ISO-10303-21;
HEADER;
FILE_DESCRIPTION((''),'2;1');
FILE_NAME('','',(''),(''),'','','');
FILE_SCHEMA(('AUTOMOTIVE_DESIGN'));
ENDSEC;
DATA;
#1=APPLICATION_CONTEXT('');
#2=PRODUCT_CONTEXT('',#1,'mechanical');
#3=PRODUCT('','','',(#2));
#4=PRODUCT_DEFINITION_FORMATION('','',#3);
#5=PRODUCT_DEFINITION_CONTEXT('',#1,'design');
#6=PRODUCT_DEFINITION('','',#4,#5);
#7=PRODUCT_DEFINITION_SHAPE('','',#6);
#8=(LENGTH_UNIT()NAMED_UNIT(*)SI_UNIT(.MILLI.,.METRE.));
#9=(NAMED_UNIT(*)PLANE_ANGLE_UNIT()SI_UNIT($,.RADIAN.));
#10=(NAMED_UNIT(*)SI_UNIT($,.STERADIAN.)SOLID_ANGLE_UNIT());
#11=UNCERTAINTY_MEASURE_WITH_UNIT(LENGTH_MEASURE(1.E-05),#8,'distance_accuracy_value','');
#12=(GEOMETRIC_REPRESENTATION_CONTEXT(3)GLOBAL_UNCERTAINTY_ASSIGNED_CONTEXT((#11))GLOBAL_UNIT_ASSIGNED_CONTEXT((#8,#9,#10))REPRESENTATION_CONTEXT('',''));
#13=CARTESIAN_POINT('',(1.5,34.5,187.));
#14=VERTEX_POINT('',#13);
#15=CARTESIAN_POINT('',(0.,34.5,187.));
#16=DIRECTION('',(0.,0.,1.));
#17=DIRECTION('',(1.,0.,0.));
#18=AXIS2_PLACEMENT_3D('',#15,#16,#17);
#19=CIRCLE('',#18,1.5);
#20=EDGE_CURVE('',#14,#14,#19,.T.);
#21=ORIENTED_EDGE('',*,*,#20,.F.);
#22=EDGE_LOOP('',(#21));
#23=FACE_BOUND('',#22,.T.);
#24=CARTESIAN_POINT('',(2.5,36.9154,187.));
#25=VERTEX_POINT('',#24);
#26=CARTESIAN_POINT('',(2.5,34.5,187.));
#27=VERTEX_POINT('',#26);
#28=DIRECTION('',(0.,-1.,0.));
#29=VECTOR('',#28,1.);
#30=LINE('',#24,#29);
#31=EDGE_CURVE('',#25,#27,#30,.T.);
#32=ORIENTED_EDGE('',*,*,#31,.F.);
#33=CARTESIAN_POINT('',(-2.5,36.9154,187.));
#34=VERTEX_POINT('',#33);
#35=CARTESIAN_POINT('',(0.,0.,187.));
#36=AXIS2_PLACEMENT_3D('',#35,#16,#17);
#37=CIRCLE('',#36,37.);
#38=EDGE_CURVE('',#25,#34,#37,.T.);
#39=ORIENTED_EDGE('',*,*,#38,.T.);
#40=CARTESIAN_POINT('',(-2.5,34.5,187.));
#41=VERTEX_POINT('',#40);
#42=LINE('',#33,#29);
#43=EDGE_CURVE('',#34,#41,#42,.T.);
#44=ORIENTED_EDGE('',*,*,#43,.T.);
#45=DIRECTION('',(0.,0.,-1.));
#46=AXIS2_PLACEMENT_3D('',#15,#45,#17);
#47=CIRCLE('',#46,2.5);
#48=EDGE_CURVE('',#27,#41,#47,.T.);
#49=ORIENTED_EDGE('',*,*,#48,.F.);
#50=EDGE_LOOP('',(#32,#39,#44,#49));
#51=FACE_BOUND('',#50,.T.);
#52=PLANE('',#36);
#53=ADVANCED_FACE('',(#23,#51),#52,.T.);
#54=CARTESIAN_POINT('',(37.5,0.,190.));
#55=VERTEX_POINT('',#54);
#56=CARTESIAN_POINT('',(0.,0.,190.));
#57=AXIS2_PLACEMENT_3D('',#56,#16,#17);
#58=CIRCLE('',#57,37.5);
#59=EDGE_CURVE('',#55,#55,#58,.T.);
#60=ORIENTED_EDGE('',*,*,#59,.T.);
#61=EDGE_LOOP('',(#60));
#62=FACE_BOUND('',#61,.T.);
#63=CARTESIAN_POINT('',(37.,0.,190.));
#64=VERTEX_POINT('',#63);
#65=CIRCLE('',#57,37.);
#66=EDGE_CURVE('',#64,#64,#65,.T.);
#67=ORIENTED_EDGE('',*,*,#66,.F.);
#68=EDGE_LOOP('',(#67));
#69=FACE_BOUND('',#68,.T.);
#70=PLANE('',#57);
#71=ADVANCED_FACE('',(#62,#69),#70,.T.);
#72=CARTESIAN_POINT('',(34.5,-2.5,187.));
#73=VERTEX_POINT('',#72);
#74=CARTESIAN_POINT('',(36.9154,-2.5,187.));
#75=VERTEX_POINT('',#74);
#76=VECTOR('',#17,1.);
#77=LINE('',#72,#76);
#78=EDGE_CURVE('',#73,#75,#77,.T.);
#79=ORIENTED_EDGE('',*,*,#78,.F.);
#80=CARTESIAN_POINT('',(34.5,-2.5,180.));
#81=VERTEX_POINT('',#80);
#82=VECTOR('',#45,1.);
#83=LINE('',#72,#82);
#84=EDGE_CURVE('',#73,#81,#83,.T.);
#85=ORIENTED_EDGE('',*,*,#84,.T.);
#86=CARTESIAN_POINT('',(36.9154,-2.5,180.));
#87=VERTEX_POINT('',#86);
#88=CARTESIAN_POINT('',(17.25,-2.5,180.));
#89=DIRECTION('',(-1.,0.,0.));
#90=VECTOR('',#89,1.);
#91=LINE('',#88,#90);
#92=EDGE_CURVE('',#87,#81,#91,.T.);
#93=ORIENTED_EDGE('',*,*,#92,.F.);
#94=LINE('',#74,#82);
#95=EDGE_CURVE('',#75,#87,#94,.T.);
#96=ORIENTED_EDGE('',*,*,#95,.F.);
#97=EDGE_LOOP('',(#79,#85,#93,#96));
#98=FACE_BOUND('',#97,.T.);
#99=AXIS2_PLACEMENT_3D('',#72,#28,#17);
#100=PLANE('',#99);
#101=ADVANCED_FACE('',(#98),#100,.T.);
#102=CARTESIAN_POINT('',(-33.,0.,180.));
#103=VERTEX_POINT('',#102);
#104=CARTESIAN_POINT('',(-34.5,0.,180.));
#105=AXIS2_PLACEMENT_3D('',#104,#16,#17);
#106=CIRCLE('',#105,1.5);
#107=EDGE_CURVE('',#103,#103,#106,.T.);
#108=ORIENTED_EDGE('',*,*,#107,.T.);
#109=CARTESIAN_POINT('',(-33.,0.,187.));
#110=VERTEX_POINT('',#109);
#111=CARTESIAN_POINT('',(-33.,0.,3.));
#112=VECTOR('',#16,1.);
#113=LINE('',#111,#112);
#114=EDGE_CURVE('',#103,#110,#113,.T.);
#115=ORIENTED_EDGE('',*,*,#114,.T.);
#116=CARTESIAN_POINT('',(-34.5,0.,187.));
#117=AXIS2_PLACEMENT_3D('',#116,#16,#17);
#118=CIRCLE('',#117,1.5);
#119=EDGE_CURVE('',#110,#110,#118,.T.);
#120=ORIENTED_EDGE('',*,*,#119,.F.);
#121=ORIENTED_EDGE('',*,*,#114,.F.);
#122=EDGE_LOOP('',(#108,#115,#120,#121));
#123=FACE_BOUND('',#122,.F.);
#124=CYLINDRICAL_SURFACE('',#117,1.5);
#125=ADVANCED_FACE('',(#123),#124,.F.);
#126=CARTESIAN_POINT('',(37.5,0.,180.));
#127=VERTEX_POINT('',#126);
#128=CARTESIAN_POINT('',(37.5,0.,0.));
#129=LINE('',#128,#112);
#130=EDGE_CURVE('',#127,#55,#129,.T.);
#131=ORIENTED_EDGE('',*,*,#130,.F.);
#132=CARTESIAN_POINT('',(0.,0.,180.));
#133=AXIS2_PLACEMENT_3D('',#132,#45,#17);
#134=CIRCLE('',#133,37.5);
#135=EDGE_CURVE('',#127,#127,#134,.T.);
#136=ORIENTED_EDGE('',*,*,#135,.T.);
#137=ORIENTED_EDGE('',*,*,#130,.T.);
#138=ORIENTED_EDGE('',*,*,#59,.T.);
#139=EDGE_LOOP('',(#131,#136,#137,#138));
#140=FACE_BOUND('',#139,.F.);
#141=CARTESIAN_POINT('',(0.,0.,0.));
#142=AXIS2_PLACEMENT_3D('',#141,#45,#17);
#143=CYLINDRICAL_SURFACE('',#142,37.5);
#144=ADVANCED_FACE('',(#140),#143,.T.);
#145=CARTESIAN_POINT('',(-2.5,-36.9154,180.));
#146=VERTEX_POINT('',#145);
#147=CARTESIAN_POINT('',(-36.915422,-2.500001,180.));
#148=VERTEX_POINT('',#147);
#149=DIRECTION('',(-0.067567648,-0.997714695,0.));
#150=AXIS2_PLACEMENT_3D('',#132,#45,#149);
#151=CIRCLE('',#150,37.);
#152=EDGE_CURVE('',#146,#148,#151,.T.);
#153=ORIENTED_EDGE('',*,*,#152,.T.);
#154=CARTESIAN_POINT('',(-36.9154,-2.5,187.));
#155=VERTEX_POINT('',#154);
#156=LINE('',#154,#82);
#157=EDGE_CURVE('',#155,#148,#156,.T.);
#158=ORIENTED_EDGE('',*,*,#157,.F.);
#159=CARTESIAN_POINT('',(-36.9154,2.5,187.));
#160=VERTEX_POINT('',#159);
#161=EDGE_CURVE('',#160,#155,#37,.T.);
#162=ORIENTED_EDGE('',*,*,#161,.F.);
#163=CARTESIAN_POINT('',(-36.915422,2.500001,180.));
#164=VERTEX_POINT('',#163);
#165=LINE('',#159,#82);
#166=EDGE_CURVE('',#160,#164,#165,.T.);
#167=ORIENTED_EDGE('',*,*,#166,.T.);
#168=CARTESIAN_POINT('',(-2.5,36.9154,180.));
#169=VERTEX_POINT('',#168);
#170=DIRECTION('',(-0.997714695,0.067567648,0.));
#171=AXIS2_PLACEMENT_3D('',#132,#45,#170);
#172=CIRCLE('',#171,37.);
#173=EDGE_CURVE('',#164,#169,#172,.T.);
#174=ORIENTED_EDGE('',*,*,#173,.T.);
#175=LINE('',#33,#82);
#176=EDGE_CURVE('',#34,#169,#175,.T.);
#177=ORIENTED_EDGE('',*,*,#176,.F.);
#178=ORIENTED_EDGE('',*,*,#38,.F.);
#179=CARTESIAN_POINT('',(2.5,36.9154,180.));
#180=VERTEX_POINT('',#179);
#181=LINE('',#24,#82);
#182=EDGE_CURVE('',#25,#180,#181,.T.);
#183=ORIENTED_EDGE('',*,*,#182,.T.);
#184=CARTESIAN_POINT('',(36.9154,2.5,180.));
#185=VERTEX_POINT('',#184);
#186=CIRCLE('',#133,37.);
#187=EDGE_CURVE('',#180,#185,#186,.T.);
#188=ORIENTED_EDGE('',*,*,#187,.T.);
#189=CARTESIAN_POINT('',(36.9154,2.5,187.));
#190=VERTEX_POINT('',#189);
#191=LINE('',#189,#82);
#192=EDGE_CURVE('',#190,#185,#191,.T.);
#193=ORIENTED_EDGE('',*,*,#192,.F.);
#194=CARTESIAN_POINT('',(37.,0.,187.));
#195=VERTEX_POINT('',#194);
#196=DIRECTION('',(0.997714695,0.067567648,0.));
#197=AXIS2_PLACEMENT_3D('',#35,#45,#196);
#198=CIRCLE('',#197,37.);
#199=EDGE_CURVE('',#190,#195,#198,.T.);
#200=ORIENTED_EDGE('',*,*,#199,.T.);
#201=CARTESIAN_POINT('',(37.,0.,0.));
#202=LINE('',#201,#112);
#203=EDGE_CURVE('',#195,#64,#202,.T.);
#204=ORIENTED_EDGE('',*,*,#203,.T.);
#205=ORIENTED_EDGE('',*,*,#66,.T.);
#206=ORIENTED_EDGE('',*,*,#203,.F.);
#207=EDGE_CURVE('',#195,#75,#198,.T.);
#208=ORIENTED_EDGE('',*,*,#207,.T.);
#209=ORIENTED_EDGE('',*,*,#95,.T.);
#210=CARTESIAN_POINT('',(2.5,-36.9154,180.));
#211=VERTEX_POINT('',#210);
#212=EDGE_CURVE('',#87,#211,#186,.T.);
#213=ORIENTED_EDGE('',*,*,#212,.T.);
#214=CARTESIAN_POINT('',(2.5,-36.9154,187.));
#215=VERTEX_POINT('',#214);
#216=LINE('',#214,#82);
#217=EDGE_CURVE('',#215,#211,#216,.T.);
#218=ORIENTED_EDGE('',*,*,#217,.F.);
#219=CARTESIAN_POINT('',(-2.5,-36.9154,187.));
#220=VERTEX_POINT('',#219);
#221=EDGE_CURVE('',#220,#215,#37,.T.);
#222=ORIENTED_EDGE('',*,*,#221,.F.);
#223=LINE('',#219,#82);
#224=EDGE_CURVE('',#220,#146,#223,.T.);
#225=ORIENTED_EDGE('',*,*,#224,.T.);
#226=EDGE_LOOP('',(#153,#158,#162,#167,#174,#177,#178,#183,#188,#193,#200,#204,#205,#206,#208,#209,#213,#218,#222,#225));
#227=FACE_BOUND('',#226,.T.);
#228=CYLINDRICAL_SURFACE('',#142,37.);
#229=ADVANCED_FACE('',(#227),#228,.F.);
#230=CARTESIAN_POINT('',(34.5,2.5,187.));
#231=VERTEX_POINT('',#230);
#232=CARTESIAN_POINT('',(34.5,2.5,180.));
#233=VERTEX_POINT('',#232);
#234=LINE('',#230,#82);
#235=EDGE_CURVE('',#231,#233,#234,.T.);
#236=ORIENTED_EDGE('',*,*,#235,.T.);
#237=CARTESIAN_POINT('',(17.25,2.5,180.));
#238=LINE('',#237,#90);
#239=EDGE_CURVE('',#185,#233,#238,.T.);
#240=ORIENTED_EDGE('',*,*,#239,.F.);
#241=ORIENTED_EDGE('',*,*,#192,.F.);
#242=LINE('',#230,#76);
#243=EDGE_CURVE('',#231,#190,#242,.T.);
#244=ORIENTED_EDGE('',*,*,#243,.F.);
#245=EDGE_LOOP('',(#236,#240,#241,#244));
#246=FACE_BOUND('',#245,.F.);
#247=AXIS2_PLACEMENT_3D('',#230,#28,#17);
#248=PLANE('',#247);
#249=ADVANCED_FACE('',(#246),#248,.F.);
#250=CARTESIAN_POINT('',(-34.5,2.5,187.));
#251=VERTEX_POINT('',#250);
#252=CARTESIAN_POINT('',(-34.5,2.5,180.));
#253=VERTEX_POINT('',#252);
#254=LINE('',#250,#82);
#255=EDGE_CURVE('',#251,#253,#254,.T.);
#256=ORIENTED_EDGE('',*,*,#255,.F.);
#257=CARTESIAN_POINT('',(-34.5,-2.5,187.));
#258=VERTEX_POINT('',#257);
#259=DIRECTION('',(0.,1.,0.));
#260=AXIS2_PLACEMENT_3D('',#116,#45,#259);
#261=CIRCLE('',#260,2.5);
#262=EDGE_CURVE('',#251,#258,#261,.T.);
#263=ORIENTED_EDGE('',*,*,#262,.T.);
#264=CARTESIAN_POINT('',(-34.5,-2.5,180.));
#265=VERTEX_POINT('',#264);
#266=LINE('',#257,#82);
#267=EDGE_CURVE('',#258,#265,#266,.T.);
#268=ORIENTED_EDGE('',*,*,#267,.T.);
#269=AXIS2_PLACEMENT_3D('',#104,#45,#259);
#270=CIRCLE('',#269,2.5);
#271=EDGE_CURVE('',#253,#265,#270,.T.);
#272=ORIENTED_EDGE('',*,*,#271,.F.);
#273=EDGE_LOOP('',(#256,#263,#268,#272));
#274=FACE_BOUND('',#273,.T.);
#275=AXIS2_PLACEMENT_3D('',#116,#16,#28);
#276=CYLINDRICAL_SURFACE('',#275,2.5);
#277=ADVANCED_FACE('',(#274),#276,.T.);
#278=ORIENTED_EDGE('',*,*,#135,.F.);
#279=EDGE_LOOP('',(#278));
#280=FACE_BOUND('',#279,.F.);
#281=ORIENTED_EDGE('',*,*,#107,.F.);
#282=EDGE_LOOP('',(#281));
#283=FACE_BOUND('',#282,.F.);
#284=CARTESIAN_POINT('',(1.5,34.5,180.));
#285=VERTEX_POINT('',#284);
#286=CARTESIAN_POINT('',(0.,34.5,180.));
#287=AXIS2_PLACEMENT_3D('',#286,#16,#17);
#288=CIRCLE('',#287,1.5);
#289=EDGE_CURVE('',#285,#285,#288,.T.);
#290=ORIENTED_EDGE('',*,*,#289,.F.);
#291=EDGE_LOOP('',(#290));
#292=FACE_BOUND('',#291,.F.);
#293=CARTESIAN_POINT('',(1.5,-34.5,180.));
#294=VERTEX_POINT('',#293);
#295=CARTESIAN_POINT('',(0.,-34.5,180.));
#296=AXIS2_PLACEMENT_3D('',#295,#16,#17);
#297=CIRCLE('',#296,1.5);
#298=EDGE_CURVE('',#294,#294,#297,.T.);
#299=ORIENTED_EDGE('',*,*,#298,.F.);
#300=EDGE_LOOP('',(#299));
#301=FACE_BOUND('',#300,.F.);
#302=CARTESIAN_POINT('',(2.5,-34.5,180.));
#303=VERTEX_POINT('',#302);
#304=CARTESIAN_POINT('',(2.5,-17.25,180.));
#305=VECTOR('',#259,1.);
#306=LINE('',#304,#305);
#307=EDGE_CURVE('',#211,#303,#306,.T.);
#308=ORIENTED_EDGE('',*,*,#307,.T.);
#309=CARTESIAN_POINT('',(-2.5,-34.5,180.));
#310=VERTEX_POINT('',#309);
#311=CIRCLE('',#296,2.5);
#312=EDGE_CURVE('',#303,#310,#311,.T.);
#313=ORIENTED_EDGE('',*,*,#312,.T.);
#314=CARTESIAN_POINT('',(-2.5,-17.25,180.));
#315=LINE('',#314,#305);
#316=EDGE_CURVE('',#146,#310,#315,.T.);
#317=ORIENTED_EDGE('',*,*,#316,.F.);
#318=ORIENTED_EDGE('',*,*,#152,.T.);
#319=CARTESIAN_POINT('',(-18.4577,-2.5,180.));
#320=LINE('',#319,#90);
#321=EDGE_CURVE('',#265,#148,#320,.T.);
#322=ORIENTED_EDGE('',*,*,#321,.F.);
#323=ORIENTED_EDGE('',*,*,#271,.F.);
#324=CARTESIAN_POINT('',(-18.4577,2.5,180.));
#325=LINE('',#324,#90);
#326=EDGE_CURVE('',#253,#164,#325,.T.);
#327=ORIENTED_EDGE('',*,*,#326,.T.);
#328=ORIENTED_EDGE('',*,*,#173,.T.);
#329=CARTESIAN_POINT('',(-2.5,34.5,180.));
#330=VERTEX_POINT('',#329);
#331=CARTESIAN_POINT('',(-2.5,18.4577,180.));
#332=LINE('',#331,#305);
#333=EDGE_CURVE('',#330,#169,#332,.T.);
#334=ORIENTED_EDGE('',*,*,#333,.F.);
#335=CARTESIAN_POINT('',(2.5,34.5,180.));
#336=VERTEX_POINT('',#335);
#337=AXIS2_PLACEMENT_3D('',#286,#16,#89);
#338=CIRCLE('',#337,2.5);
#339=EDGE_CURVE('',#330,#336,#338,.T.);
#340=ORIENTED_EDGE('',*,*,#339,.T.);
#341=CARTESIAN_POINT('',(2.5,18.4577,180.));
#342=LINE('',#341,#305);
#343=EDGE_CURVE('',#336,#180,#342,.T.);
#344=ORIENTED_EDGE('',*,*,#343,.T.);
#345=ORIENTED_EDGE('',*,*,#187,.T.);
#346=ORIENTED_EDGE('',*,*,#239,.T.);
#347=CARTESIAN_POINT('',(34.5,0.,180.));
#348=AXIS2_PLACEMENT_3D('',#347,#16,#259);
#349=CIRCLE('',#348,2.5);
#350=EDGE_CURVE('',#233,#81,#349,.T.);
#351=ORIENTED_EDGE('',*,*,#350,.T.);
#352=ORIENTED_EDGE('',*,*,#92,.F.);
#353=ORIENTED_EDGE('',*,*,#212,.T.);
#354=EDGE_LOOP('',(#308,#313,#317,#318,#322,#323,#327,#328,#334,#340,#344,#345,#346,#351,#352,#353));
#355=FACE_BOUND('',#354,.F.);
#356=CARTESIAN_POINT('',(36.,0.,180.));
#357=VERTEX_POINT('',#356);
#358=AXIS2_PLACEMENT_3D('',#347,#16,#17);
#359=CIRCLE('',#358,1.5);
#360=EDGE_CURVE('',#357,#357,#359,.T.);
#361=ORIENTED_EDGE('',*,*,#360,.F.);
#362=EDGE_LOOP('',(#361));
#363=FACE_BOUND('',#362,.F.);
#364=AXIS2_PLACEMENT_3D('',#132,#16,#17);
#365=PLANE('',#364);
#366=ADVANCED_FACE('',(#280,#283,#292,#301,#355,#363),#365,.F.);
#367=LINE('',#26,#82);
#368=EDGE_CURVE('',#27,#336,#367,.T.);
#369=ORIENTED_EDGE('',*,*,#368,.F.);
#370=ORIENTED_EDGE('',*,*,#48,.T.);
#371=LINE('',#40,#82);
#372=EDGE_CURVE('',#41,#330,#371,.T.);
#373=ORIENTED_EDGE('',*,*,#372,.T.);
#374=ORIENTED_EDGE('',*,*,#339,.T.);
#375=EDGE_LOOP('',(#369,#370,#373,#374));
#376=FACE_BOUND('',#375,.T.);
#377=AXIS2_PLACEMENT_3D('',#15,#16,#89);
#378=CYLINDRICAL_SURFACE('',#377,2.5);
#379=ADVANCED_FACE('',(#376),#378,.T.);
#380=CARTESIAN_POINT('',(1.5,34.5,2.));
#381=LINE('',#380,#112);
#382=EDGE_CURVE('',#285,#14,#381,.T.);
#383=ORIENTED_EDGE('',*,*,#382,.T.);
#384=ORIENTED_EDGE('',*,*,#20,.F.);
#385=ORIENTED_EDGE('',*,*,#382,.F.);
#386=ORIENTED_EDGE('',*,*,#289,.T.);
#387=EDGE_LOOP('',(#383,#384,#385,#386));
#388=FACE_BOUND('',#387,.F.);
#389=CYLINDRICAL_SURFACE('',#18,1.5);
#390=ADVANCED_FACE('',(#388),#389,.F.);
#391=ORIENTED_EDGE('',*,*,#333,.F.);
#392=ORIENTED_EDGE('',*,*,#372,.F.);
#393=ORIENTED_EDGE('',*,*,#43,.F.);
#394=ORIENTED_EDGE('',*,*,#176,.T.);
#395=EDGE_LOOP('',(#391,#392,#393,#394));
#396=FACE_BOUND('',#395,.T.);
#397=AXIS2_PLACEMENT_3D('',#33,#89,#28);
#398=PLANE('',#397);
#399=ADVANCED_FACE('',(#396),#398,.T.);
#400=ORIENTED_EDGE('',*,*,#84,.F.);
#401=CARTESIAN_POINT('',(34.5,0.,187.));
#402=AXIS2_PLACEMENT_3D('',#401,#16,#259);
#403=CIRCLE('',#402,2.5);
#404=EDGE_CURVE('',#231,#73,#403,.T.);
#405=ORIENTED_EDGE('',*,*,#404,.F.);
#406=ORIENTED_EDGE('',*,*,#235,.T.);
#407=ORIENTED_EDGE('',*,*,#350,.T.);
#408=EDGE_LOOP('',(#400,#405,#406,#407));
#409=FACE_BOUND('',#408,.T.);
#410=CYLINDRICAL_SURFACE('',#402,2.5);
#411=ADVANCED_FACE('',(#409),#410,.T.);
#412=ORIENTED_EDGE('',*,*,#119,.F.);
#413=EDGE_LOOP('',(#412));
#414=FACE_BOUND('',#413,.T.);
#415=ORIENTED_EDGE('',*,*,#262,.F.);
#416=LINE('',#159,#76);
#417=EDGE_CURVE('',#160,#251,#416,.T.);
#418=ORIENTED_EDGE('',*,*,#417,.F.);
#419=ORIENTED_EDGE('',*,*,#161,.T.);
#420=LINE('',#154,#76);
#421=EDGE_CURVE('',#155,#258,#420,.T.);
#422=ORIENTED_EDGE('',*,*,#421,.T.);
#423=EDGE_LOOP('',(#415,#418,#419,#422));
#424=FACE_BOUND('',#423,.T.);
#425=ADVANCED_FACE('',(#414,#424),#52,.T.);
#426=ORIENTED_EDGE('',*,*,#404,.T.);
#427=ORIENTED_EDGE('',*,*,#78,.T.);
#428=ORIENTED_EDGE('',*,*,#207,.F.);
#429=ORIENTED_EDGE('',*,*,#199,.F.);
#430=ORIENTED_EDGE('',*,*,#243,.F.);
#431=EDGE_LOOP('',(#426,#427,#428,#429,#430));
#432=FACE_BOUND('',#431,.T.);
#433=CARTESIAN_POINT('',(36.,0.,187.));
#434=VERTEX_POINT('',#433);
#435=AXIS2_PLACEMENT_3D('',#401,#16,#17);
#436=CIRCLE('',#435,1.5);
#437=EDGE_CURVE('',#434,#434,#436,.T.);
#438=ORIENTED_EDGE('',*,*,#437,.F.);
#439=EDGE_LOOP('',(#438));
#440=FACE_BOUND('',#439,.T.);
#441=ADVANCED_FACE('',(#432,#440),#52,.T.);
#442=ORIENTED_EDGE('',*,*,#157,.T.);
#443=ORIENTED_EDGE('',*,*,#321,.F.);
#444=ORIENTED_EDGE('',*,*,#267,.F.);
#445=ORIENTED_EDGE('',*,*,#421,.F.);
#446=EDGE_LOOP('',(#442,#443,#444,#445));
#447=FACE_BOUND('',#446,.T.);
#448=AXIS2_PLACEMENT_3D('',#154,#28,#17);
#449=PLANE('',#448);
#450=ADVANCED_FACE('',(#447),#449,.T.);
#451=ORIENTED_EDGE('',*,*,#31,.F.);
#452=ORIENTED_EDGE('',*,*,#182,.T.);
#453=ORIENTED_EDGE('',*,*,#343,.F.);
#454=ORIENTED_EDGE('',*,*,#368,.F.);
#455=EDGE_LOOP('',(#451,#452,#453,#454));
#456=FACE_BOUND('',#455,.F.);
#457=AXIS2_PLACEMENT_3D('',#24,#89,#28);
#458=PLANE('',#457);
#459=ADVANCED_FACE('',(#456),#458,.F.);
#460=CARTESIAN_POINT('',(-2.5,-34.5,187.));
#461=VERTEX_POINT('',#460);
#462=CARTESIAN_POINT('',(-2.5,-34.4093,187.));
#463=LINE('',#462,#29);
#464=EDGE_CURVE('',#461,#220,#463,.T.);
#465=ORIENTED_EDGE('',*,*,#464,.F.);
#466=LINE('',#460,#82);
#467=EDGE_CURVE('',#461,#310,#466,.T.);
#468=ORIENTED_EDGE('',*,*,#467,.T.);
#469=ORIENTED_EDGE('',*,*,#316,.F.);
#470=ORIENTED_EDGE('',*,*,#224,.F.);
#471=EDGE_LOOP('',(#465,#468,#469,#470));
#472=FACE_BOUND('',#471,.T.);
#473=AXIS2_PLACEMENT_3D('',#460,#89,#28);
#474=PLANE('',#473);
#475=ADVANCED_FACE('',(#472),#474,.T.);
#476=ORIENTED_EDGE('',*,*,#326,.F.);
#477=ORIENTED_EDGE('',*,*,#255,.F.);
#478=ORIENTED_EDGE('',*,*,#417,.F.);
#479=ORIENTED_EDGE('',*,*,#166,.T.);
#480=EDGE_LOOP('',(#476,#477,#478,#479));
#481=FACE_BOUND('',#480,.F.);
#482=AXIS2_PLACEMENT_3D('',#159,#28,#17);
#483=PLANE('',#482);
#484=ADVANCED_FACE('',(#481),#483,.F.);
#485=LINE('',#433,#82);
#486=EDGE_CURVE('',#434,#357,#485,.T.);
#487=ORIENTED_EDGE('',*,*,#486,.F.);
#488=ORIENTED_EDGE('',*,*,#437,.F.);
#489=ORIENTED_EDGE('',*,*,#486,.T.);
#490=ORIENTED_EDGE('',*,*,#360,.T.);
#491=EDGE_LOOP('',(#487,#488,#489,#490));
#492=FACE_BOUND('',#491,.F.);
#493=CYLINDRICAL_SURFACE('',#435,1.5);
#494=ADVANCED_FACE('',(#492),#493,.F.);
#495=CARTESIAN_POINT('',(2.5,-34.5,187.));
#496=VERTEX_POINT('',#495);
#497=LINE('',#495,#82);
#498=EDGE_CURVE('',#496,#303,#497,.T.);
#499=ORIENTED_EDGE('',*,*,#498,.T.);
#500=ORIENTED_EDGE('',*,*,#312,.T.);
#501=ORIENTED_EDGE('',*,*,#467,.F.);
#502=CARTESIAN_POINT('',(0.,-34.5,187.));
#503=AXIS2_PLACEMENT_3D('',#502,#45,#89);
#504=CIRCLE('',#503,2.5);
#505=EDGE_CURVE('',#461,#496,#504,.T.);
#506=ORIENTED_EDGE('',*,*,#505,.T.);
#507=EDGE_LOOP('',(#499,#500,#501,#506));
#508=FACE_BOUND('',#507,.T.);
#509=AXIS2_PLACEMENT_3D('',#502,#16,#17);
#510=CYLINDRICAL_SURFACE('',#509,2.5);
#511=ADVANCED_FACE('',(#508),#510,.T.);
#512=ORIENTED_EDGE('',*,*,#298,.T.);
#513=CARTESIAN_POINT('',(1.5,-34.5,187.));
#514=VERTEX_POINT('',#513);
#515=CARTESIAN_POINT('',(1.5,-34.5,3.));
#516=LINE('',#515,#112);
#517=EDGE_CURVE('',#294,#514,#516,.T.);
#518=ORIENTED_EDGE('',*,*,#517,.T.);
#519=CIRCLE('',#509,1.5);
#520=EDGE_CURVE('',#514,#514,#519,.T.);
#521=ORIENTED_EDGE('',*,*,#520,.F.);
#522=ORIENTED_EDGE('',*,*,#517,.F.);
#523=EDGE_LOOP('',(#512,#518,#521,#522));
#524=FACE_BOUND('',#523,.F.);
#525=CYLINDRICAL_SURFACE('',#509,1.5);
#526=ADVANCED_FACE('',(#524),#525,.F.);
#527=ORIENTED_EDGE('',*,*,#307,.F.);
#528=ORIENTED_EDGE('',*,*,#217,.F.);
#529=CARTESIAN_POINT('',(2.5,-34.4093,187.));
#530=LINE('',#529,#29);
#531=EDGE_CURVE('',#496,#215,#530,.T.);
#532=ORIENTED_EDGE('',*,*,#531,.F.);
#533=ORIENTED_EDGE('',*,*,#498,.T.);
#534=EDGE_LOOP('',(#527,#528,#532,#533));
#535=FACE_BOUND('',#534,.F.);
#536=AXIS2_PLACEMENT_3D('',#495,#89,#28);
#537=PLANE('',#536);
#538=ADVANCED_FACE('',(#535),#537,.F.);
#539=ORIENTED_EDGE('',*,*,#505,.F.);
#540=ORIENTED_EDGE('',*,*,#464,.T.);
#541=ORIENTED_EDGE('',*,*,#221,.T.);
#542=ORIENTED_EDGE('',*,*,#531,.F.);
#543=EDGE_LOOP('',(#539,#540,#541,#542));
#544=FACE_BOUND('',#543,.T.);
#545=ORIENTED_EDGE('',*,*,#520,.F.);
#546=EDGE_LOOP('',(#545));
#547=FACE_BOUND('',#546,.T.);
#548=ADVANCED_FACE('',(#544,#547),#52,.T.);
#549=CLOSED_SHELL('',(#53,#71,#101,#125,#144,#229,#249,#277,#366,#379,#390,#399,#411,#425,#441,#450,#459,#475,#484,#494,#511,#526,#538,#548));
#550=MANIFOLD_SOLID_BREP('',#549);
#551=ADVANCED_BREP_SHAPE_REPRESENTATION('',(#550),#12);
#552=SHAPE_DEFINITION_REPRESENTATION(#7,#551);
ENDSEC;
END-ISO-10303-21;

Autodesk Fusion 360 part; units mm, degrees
sketch "Esboço2" plane through (0, 0, 0) normal (0, 0, 1) x (1, 0, 0)
  circle A0 centre (0, 0) radius 37.5
  circle A1 centre (0, 0) radius 37
  dimension "d6" = 75
  dimension "d7" = 74
extrude "Extrusão2" add sketch "Esboço2" along normal blind 190
ref_plane "Plano de trabalho9" through (0, 0, 187) normal (0, 0, 1) x (1, 0, 0)
sketch "Esboço10" plane through (0, 0, 187) normal (0, 0, 1) x (1, 0, 0)
  circle A0 centre (0, 0) radius 34.5 construction
  line L0 (0, 0) -> (-68.1762, 0) construction
  line L1 (0, 0) -> (60, 0) construction
  line L2 (0, 0) -> (0, 45) construction
  line L3 (0, 0) -> (0, -43.1659) construction
  circle A1 centre (34.5, 0) radius 1.5
  line L4 (3, -43) -> (3, -42)
  circle A2 centre (0, 34.5) radius 1.5
  circle A3 centre (-34.5, 0) radius 1.5
  circle A4 centre (0, -34.5) radius 1.5
  arc A5 (34.5, 2.5) -> (34.5, -2.5) centre (34.5, 0) ccw
  arc A6 (-2.5, 34.5) -> (2.5, 34.5) centre (0, 34.5) ccw
  arc A7 (-34.5, -2.5) -> (-34.5, 2.5) centre (-34.5, 0) ccw
  arc A8 (2.5, -34.5) -> (-2.5, -34.5) centre (0, -34.5) ccw
  circle A9 centre (0, 0) radius 37
  line L5 (-36.9154, 2.5) -> (-34.4093, 2.5)
  line L6 (-36.9154, -2.5) -> (-34.4093, -2.5)
  line L7 (34.5, 2.5) -> (36.9154, 2.5)
  line L8 (34.5, -2.5) -> (36.9154, -2.5)
  line L9 (2.5, 36.9154) -> (2.5, 34.4093)
  line L10 (-2.5, 36.9154) -> (-2.5, 34.4093)
  line L11 (-2.5, -34.4093) -> (-2.5, -36.9154)
  line L12 (2.5, -34.4093) -> (2.5, -36.9154)
  dimension "d82" = 69
  dimension "d83" = 3
  dimension "d84" = 2.5
  dimension "d85" = 2.5
  dimension "d87" = 360
  dimension "d89" = 360
  dimension "d90" = 2.5
extrude "Extrusão12" add sketch "Esboço10" against normal blind 184 contours A5 A9 L7 L8 | A6 A9 L9 L10 | A8 A9 L11 L12 | A7 A9 L5 L6
thread "Rosca3"
ref_plane "Plano de trabalho3" through (0, 0, 32) normal (0, 0, 1) x (1, 0, 0)
sketch "Esboço3" plane through (0, 0, 32) normal (0, 0, 1) x (1, 0, 0)
  line L0 (0, 0) -> (0, 37) construction
  line L1 (34.2491, 14) -> (-34.2491, 14)
  circle A0 centre (0, 0) radius 37
  line L2 (31.1288, 20) -> (-31.1288, 20)
  line L3 (32.8634, 17) -> (-32.8634, 17)
  circle A1 centre (0, 0) radius 50
  circle A2 centre (0, 0) radius 37.5
  line L4 (-8, 0) -> (8, 0)
  line L5 (8, 0) -> (8, 36.1248)
  line L6 (-8, 0) -> (-8, 36.1248)
  circle A3 centre (0, 34.5) radius 1.5
  line L7 (1.5, 32.5) -> (1.5, 0)
  arc A4 (-2.5, 34.5) -> (2.5, 34.5) centre (0, 34.5) ccw
  line L8 (-1.5, 32.5) -> (-1.5, 0)
  line L9 (27.8634, 24.3441) -> (27.8634, 11)
  line L10 (27.8634, 11) -> (35.327, 11)
  line L11 (-27.8634, 11) -> (-35.327, 11)
  line L12 (-27.8634, 24.3441) -> (-27.8634, 11)
  line L13 (-30.4631, 21) -> (30.4631, 21)
  line L14 (-34.641, 13) -> (34.641, 13)
  line L15 (0, 32) -> (8, 32)
  line L16 (0, 32) -> (-8, 32)
  dimension "d12" = 6
  dimension "d15" = 3
  dimension "d17" = 75
  dimension "d18" = 100
  dimension "d41" = 14
  dimension "d51" = 8
  dimension "d52" = 16
  dimension "d99" = 3
  dimension "d100" = 2.5
  dimension "d115" = 6.5
  dimension "d123" = 5
  dimension "d124" = 6
  dimension "d143" = 4
  dimension "d144" = 4
extrude "Extrusão21" add sketch "Esboço3" along normal blind 6 and the other way blind 6 contours L1 A0 L9 L14 | L1 A0 L3 L9 | A0 L9 L10 L14 | A0 L2 L3 L9 | A0 L2 L9 L13 | A0 L9 L13 | A0 L11 L12 L14 | L1 A0 L12 L14 | L1 A0 L3 L12 | A0 L2 L3 L12 | A0 L12 L13 | A0 L2 L12 L13
sketch "Esboço18" plane through (-27.8634, 0, 0) normal (1, 0, 0) x (0, 1, 0)
  line L0 (24.3441, 26) -> (24.3441, 38)
  line L1 (24.3441, 38) -> (11, 38)
  line L2 (11, 38) -> (11, 26)
  line L3 (11, 26) -> (24.3441, 26)
  circle A0 centre (17, 32) radius 4
  point P0 (11, 32)
  dimension "d166" = 8
  dimension "d167" = 6
  dimension "d168" = 6
ref_plane "Plano de trabalho11" through (0, 0, 0) normal (1, 0, 0) x (0, 1, 0)
extrude "Extrusão23" cut sketch "Esboço18" against normal blind 15 contours A0
extrude "Extrusão7" add sketch "Esboço3" along normal blind 30 and the other way blind 30 contours L1 L5 L7 L14 | L1 L3 L5 L7 | L4 L5 L7 L14 | L2 L3 L5 L7 | L1 L6 L8 L14 | L1 L3 L6 L8 | L2 L5 L7 L13 | L2 L3 L6 L8 | L4 L6 L8 L14 | L5 L7 L13 L15 | A0 L5 L6 L7 A4 L8 L15 L16 | L2 L6 L8 L13 | L6 L8 L13 L16 | L7 A4 L15 | A4 L8 L16
sketch "Esboço19" plane through (27.8634, 0, 0) normal (-1, 0, 0) x (0, -1, 0)
  line L0 (-11, 26) -> (-11, 38)
  line L1 (-11, 38) -> (-24.3441, 38)
  line L2 (-24.3441, 38) -> (-24.3441, 26)
  line L3 (-24.3441, 26) -> (-11, 26)
extrude "Extrusão24" cut sketch "Esboço18" along normal blind 80 contours A0
sketch "Esboço11" plane through (8, 0, 0) normal (1, 0, 0) x (0, 1, 0)
  line L0 (0, 2) -> (36.1248, 2)
  line L1 (36.1248, 2) -> (36.1248, 62)
  line L2 (36.1248, 62) -> (0, 62)
  line L3 (0, 62) -> (0, 2)
  circle A0 centre (17, 32) radius 3
  circle A1 centre (17, 32) radius 9.5
  circle A2 centre (17, 32) radius 12.5
  line L4 (36.1248, 32) -> (36.1248, -5) construction
  line L5 (0, 32) -> (36.1248, 32)
  line L6 (30.1248, 2) -> (8.3278, 22.9976)
  line L7 (30.1248, 62) -> (8.3278, 41.0024)
  line L8 (30.1248, 2) -> (31.9998, 2)
  line L9 (31.9998, 2) -> (31.9998, 32)
  line L10 (30.1248, 62) -> (31.9998, 62)
  line L11 (31.9998, 62) -> (31.9998, 32)
  circle A3 centre (17, 32) radius 4
  point P0 (14, 32)
  point P1 (20, 32)
  dimension "d106" = 6
  dimension "d107" = 19
  dimension "d109" = 25
  dimension "d110" = 6
  dimension "d147" = 1.875
extrude "Extrusão13" cut sketch "Esboço11" against normal blind 16 contours L0 L3 A2 L5 L6 | L0 A2 L5 L6 L8 L9 | L2 L3 A2 L5 L7 | A1 A2 L5 | A1 A2 L5 | L2 A2 L5 L7 L10 L11 | A1 L5 A3 | A1 L5 A3 | A0 L5 A3 | A0 L5 A3 | A0 L5 | A0 L5
ref_plane "Plano de trabalho4" through (0, 0, 150) normal (0, 0, 1) x (1, 0, 0)
sketch "Esboço4" plane through (0, 0, 150) normal (0, 0, 1) x (1, 0, 0)
  circle A0 centre (0, 0) radius 37
  circle A1 centre (0, 0) radius 50
  circle A2 centre (0, 0) radius 37.5
  line L0 (-20, -31.1288) -> (-20, 31.1288)
  line L1 (-17, -32.8634) -> (-17, 32.8634)
  line L2 (-14, -34.2491) -> (-14, 34.2491)
  line L3 (0, 8) -> (0, -8)
  line L4 (0, 8) -> (-36.1248, 8)
  line L5 (0, -8) -> (-36.1248, -8)
  line L6 (0, 0) -> (-37, 0) construction
  circle A3 centre (-34.5, 0) radius 1.5
  line L7 (0, 1.5) -> (-32.5, 1.5)
  arc A4 (-34.5, -2.5) -> (-34.5, 2.5) centre (-34.5, 0) ccw
  line L8 (0, -1.5) -> (-32.5, -1.5)
  line L9 (-24.3441, -27.8634) -> (-11, -27.8634)
  line L10 (-11, -27.8634) -> (-11, -35.327)
  line L11 (-24.3441, 27.8634) -> (-11, 27.8634)
  line L12 (-11, 27.8634) -> (-11, 35.327)
  line L13 (-13, 34.641) -> (-13, -34.641)
  line L14 (-21, 30.4631) -> (-21, -30.4631)
  line L15 (-32, 0) -> (-32, 8)
  line L16 (-32, 0) -> (-32, -8)
  dimension "d28" = 75
  dimension "d29" = 100
  dimension "d38" = 14
  dimension "d39" = 6
  dimension "d40" = 3
  dimension "d43" = 16
  dimension "d44" = 8
  dimension "d101" = 3
  dimension "d102" = 2.5
  dimension "d116" = 6.5
  dimension "d135" = 6
  dimension "d136" = 5
  dimension "d145" = 4
  dimension "d146" = 4
extrude "Extrusão25" add sketch "Esboço4" along normal blind 6 and the other way blind 6 contours A0 L11 L12 L13 | A0 L9 L10 L13 | A0 L2 L11 L13 | A0 L2 L9 L13 | A0 L1 L2 L11 | A0 L1 L2 L9 | A0 L0 L1 L11 | A0 L0 L1 L9 | A0 L0 L11 L14 | A0 L0 L9 L14 | A0 L11 L14 | A0 L9 L14
sketch "Esboço20" plane through (0, 27.8634, 0) normal (0, -1, 0) x (1, 0, 0)
  line L0 (-11, 144) -> (-11, 156)
  line L1 (-11, 156) -> (-24.3441, 156)
  line L2 (-24.3441, 156) -> (-24.3441, 144)
  line L3 (-24.3441, 144) -> (-11, 144)
  circle A0 centre (-17, 150) radius 4
  dimension "d179" = 8
  dimension "d180" = 6
  dimension "d182" = 6
extrude "Extrusão26" cut sketch "Esboço20" against normal blind 15 contours A0
sketch "Esboço21" plane through (0, -27.8634, 0) normal (0, 1, 0) x (-1, 0, 0)
  line L0 (24.3441, 144) -> (24.3441, 156)
  line L1 (24.3441, 156) -> (11, 156)
  line L2 (11, 156) -> (11, 144)
  line L3 (11, 144) -> (24.3441, 144)
  circle A0 centre (17, 150) radius 4
  dimension "d185" = 8
  dimension "d186" = 6
  dimension "d187" = 6
extrude "Extrusão27" cut sketch "Esboço21" against normal blind 15 contours A0
extrude "Extrusão6" add sketch "Esboço4" along normal blind 30 and the other way blind 30 contours L2 L4 L7 L13 | L3 L4 L7 L13 | L3 L5 L8 L13 | L2 L5 L8 L13 | L1 L2 L4 L7 | L1 L2 L5 L8 | L0 L1 L4 L7 | L0 L1 L5 L8 | L0 L4 L7 L14 | L0 L5 L8 L14 | A0 L4 L5 L7 A4 L8 L15 L16 | L4 L7 L14 L15 | L5 L8 L14 L16 | L7 A4 L15 | A4 L8 L16
sketch "Esboço13" plane through (0, -8, 0) normal (0, -1, 0) x (1, 0, 0)
  line L0 (0, 120) -> (0, 180)
  line L1 (0, 180) -> (-36.1248, 180)
  line L2 (-36.1248, 180) -> (-36.1248, 120)
  line L3 (-36.1248, 120) -> (0, 120)
  circle A0 centre (-17, 150) radius 3
  circle A1 centre (-17, 150) radius 9.5
  circle A2 centre (-17, 150) radius 12.5
  line L4 (-36.1248, 150) -> (-36.1248, 198.4836) construction
  line L5 (-30.1248, 180) -> (-6.6704, 157.4058)
  line L6 (0, 150) -> (-36.1248, 150)
  line L7 (-30.1248, 120) -> (-6.6704, 142.5942)
  line L8 (-30.1248, 180) -> (-31.9998, 180)
  line L9 (-31.9998, 180) -> (-31.9998, 150)
  line L10 (-30.1248, 120) -> (-31.9998, 120)
  line L11 (-31.9998, 120) -> (-31.9998, 150)
  point P0 (-14, 150)
  point P1 (-20, 150)
  dimension "d117" = 6
  dimension "d118" = 19
  dimension "d119" = 25
  dimension "d120" = 6
  dimension "d148" = 1.875
extrude "Extrusão14" cut sketch "Esboço13" against normal blind 16 contours L0 L3 A2 L6 L7 | L0 L1 A2 L5 L6 | L3 A2 L6 L7 L10 L11 | A1 A2 L6 | A1 A2 L6 | L1 A2 L5 L6 L8 L9 | A0 A1 L6 | A0 A1 L6 | A0 L6 | A0 L6
ref_plane "Plano de trabalho5" through (0, 0, 0) normal (1, 0, 0) x (0, 1, 0)
ref_plane "Plano de trabalho6" through (0, 0, 0) normal (0, 1, 0) x (0, 0, 1)
ref_plane "Plano de trabalho7" through (0, 0, 134.3) normal (0, 0, 1) x (1, 0, 0)
sketch "Esboço8" plane through (0, 0, 134.3) normal (0, 0, 1) x (1, 0, 0)
  line L0 (46.3444, 0) -> (0, 0) construction
  line L1 (8, 36.1248) -> (8, -36.1248)
  line L2 (-8, -36.1248) -> (-8, 36.1248)
  circle A0 centre (0, 0) radius 37
  line L3 (0, 0) -> (0, 37) construction
  circle A1 centre (0, 34.5) radius 1.5
  circle A2 centre (0, -34.5) radius 1.5
  dimension "d72" = 8
  dimension "d73" = 8
  dimension "d95" = 2.5
  dimension "d96" = 3
extrude "Extrusão10" add sketch "Esboço8" along normal blind 2 contours L1 L2 A0
ref_plane "Plano de trabalho8" through (0, 0, 45.7) normal (0, 0, 1) x (1, 0, 0)
sketch "Esboço9" plane through (0, 0, 45.7) normal (0, 0, 1) x (1, 0, 0)
  line L0 (0, 0) -> (-37, 0) construction
  line L1 (-36.1248, 8) -> (36.1248, 8)
  line L2 (-36.1248, -8) -> (36.1248, -8)
  circle A0 centre (0, 0) radius 37
  circle A1 centre (-34.5, 0) radius 1.5
  line L3 (0, 0) -> (0, 43.2459) construction
  circle A2 centre (34.5, 0) radius 1.5
  dimension "d77" = 8
  dimension "d78" = 8
  dimension "d97" = 3
  dimension "d98" = 2.5
extrude "Extrusão11" add sketch "Esboço9" along normal blind 2 contours L1 L2 A0
ref_plane "Plano de trabalho10" through (8, 18.0624, 32) normal (1, 0, 0) x (0, 1, 0)
sketch "Esboço16" plane through (-31.9998, 0, 0) normal (1, 0, 0) x (0, 1, 0)
  line L0 (1.5, 180) -> (1.5, 120)
  line L1 (1.5, 120) -> (8, 120)
  line L2 (8, 120) -> (8, 180)
  line L3 (8, 180) -> (1.5, 180)
  line L4 (4.75, 180) -> (4.75, 120) construction
  circle A0 centre (4.75, 170) radius 1.5
  circle A1 centre (4.75, 130) radius 1.5
  line L5 (8, 150) -> (-12.335, 150) construction
  line L6 (0, 2.5) -> (0, 20)
  circle A2 centre (-4.75, 170) radius 1.5
  circle A3 centre (-4.75, 130) radius 1.5
  dimension "d149" = 3
  dimension "d150" = 3
  dimension "d151" = 40
  dimension "d152" = 20
extrude "Extrusão19" cut sketch "Esboço16" against normal blind 10 contours A0 | A1 | A2 | A3
sketch "Esboço17" plane through (0, 31.9998, 0) normal (0, -1, 0) x (1, 0, 0)
  line L0 (1.5, 62) -> (1.5, 2)
  line L1 (1.5, 2) -> (8, 2)
  line L2 (8, 2) -> (8, 62)
  line L3 (8, 62) -> (1.5, 62)
  line L4 (4.75, 2) -> (4.75, 62) construction
  line L5 (8, 32) -> (-12, 32) construction
  circle A0 centre (4.75, 52) radius 1.5
  circle A1 centre (4.75, 12) radius 1.5
  line L6 (0, 1.75) -> (0, 22.5)
  circle A2 centre (-4.75, 12) radius 1.5
  circle A3 centre (-4.75, 52) radius 1.5
  dimension "d155" = 3
  dimension "d156" = 3
  dimension "d157" = 40
  dimension "d158" = 20
extrude "Extrusão20" cut sketch "Esboço17" against normal blind 10 contours A0 | A1 | A2 | A3
thread "Rosca4"
thread "Rosca5"
sketch "Esboço22" plane through (0, 0, 136.3) normal (0, 0, 1) x (-1, 0, 0)
  line L0 (2.5, 36.9154) -> (2.5, 34.5)
  arc A0 (-2.5, 34.5) -> (2.5, 34.5) centre (0, 34.5) ccw
  line L1 (-2.5, 34.5) -> (-2.5, 36.9154)
  arc A1 (-2.5, 36.9154) -> (-8, 36.1248) centre (0, 0) ccw
  line L2 (-8, 36.1248) -> (-8, -36.1248)
  arc A2 (-8, -36.1248) -> (-2.5, -36.9154) centre (0, 0) ccw
  line L3 (-2.5, -36.9154) -> (-2.5, -34.5)
  arc A3 (2.5, -34.5) -> (-2.5, -34.5) centre (0, -34.5) ccw
  line L4 (2.5, -34.5) -> (2.5, -36.9154)
  arc A4 (2.5, -36.9154) -> (8, -36.1248) centre (0, 0) ccw
  line L5 (8, -36.1248) -> (8, 36.1248)
  arc A5 (8, 36.1248) -> (2.5, 36.9154) centre (0, 0) ccw
  line L6 (0, 0) -> (-21, 0) construction
  line L7 (0, 0) -> (0, -19.3) construction
  line L8 (2, -15.8) -> (-2, -15.8)
  arc A6 (-2, -15.8) -> (-2, -22.8) centre (-2, -19.3) ccw
  line L9 (-2, -22.8) -> (2, -22.8)
  arc A7 (2, -22.8) -> (2, -15.8) centre (2, -19.3) ccw
  line L10 (2, -19.3) -> (-2, -19.3) construction
  arc A8 (-2, 22.8) -> (-2, 15.8) centre (-2, 19.3) ccw
  line L11 (2, 15.8) -> (-2, 15.8)
  arc A9 (2, 15.8) -> (2, 22.8) centre (2, 19.3) ccw
  line L12 (-2, 22.8) -> (2, 22.8)
  circle A10 centre (0, 10.8) radius 1.5 construction
  line L13 (2, 19.3) -> (-2, 19.3) construction
  line L14 (2, 12.3) -> (-2, 12.3)
  arc A11 (-2, 12.3) -> (-2, 9.3) centre (-2, 10.8) ccw
  line L15 (-2, 9.3) -> (2, 9.3)
  arc A12 (2, 9.3) -> (2, 12.3) centre (2, 10.8) ccw
  line L16 (2, 10.8) -> (-2, 10.8) construction
  line L17 (2, 26.3) -> (-2, 26.3)
  arc A13 (2, 26.3) -> (2, 29.3) centre (2, 27.8) ccw
  line L18 (-2, 29.3) -> (2, 29.3)
  arc A14 (-2, 29.3) -> (-2, 26.3) centre (-2, 27.8) ccw
  arc A15 (2, -29.3) -> (2, -26.3) centre (2, -27.8) ccw
  line L19 (2, -26.3) -> (-2, -26.3)
  arc A16 (-2, -26.3) -> (-2, -29.3) centre (-2, -27.8) ccw
  line L20 (-2, -29.3) -> (2, -29.3)
  arc A17 (2, -12.3) -> (2, -9.3) centre (2, -10.8) ccw
  line L21 (-2, -9.3) -> (2, -9.3)
  arc A18 (-2, -9.3) -> (-2, -12.3) centre (-2, -10.8) ccw
  line L22 (2, -12.3) -> (-2, -12.3)
  point P0 (0, -19.3)
  point P1 (0, 10.8)
  dimension "d191" = 19.3
  dimension "d195" = 2
  dimension "d196" = 3.5
  dimension "d204" = 3
  dimension "d205" = 8.5
  dimension "d230" = 1.5
  dimension "d231" = 4
extrude "Extrusão28" cut sketch "Esboço22" against normal blind 5 contours L8 A6 L9 A7 | A8 L11 A9 L12 | L14 A11 L15 A12 | L17 A13 L18 A14 | A15 L19 A16 L20 | A17 L21 A18 L22
sketch "Esboço23" plane through (0, 0, 45.7) normal (0, 0, -1) x (1, 0, 0)
  line L0 (36.9154, -2.5) -> (34.5, -2.5)
  arc A0 (34.5, 2.5) -> (34.5, -2.5) centre (34.5, 0) ccw
  line L1 (34.5, 2.5) -> (36.9154, 2.5)
  arc A1 (36.9154, 2.5) -> (36.1248, 8) centre (0, 0) ccw
  line L2 (36.1248, 8) -> (-36.1248, 8)
  arc A2 (-36.1248, 8) -> (-36.9154, 2.5) centre (0, 0) ccw
  line L3 (-36.9154, 2.5) -> (-34.5, 2.5)
  arc A3 (-34.5, -2.5) -> (-34.5, 2.5) centre (-34.5, 0) ccw
  line L4 (-34.5, -2.5) -> (-36.9154, -2.5)
  arc A4 (-36.9154, -2.5) -> (-36.1248, -8) centre (0, 0) ccw
  line L5 (-36.1248, -8) -> (36.1248, -8)
  arc A5 (36.1248, -8) -> (36.9154, -2.5) centre (0, 0) ccw
  line L6 (0, 0) -> (0, -19) construction
  line L7 (0, 0) -> (19.3, 0)
  line L8 (15.8, 2.5) -> (15.8, -2.5)
  arc A6 (15.8, -2.5) -> (22.8, -2.5) centre (19.3, -2.5) ccw
  line L9 (22.8, -2.5) -> (22.8, 2.5)
  arc A7 (22.8, 2.5) -> (15.8, 2.5) centre (19.3, 2.5) ccw
  line L10 (19.3, 2.5) -> (19.3, -2.5) construction
  line L11 (-15.8, 2.5) -> (-15.8, -2.5)
  arc A8 (-15.8, 2.5) -> (-22.8, 2.5) centre (-19.3, 2.5) ccw
  line L12 (-22.8, -2.5) -> (-22.8, 2.5)
  arc A9 (-22.8, -2.5) -> (-15.8, -2.5) centre (-19.3, -2.5) ccw
  circle A10 centre (10.8, 0) radius 1.5 construction
  circle A11 centre (27.8, 0) radius 1.5 construction
  line L13 (9.3, 2.5) -> (9.3, -2.5)
  arc A12 (9.3, -2.5) -> (12.3, -2.5) centre (10.8, -2.5) ccw
  line L14 (12.3, -2.5) -> (12.3, 2.5)
  arc A13 (12.3, 2.5) -> (9.3, 2.5) centre (10.8, 2.5) ccw
  line L15 (10.8, 2.5) -> (10.8, -2.5) construction
  line L16 (26.3, -2.5) -> (26.3, 2.5)
  arc A14 (26.3, -2.5) -> (29.3, -2.5) centre (27.8, -2.5) ccw
  line L17 (29.3, 2.5) -> (29.3, -2.5)
  arc A15 (29.3, 2.5) -> (26.3, 2.5) centre (27.8, 2.5) ccw
  line L18 (-12.3, -2.5) -> (-12.3, 2.5)
  arc A16 (-12.3, -2.5) -> (-9.3, -2.5) centre (-10.8, -2.5) ccw
  line L19 (-9.3, 2.5) -> (-9.3, -2.5)
  arc A17 (-9.3, 2.5) -> (-12.3, 2.5) centre (-10.8, 2.5) ccw
  line L20 (-26.3, -2.5) -> (-26.3, 2.5)
  arc A18 (-29.3, -2.5) -> (-26.3, -2.5) centre (-27.8, -2.5) ccw
  line L21 (-29.3, 2.5) -> (-29.3, -2.5)
  arc A19 (-26.3, 2.5) -> (-29.3, 2.5) centre (-27.8, 2.5) ccw
  point P0 (19.3, 0)
  point P1 (10.8, 0)
  dimension "d199" = 3.5
  dimension "d200" = 5
  dimension "d201" = 19.3
  dimension "d206" = 3
  dimension "d207" = 8.5
  dimension "d228" = 2.5
  dimension "d229" = 1.5
extrude "Extrusão29" cut sketch "Esboço23" against normal blind 10 contours L7 L13 L14 A13 | L8 A6 L9 A7 | L7 L13 A12 L14 | L11 A8 L12 A9 | L16 A14 L17 A15 | L20 A18 L21 A19
ref_plane "Plano de trabalho12" through (0, 0, 106.3) normal (0, 0, 1) x (1, 0, 0)
sketch "Esboço24" plane through (0, 0, 106.3) normal (0, 0, 1) x (1, 0, 0)
  line L0 (0, 0) -> (28.1868, 0) construction
  line L1 (16, 0) -> (16, 33.3617)
  circle A0 centre (0, 0) radius 37
  line L2 (16, 0) -> (16, -33.3617)
  line L3 (0, 0) -> (0, 19.3) construction
  line L4 (-16, 0) -> (-16, 33.3617)
  line L5 (-16, 0) -> (-16, -33.3617)
  line L6 (-2, 6.8) -> (2, 6.8)
  arc A1 (2, 6.8) -> (2, 31.8) centre (2, 19.3) ccw
  line L7 (2, 31.8) -> (-2, 31.8)
  arc A2 (-2, 31.8) -> (-2, 6.8) centre (-2, 19.3) ccw
  line L8 (-2, 19.3) -> (2, 19.3) construction
  arc A3 (2, -31.8) -> (2, -6.8) centre (2, -19.3) ccw
  arc A4 (-2, -6.8) -> (-2, -31.8) centre (-2, -19.3) ccw
  line L9 (-2, -6.8) -> (2, -6.8)
  line L10 (2, -31.8) -> (-2, -31.8)
  circle A5 centre (0, 34.5) radius 1.5
  circle A6 centre (0, -34.5) radius 1.5
  point P0 (0, 19.3)
  dimension "d209" = 16
  dimension "d210" = 12.5
  dimension "d211" = 4
  dimension "d212" = 19.3
  dimension "d215" = 3
  dimension "d216" = 34.5
ref_plane "Plano de trabalho13" through (0, 0, 55.7) normal (0, 0, -1) x (-1, 0, 0)
ref_plane "Plano de trabalho14" through (0, 0, 60) normal (0, 0, 1) x (1, 0, 0)
sketch "Esboço25" plane through (0, 0, 55.7) normal (0, 0, -1) x (1, 0, 0)
  line L0 (-33.3617, 16) -> (33.3617, 16)
  circle A0 centre (0, 0) radius 37
  line L1 (0, 0) -> (-19.3, 0) construction
  line L2 (-33.3617, -16) -> (33.3617, -16)
  line L3 (-6.8, -2) -> (-6.8, 2)
  arc A1 (-6.8, 2) -> (-31.8, 2) centre (-19.3, 2) ccw
  line L4 (-31.8, 2) -> (-31.8, -2)
  arc A2 (-31.8, -2) -> (-6.8, -2) centre (-19.3, -2) ccw
  line L5 (-19.3, -2) -> (-19.3, 2) construction
  circle A3 centre (-34.5, 0) radius 1.5
  line L6 (0, 0) -> (0, -12) construction
  arc A4 (31.8, 2) -> (6.8, 2) centre (19.3, 2) ccw
  line L7 (6.8, -2) -> (6.8, 2)
  arc A5 (6.8, -2) -> (31.8, -2) centre (19.3, -2) ccw
  circle A6 centre (34.5, 0) radius 1.5
  line L8 (31.8, 2) -> (31.8, -2)
  point P0 (-19.3, 0)
  dimension "d219" = 16
  dimension "d220" = 12.5
  dimension "d221" = 4
  dimension "d222" = 19.3
  dimension "d224" = 34.5
  dimension "d225" = 3
ref_plane "Plano de trabalho15" through (0, 0, 180) normal (0, 0, 1) x (1, 0, 0)
sketch "Esboço26" plane through (0, 0, 180) normal (0, 0, 1) x (1, 0, 0)
  circle A0 centre (0, 0) radius 43.8611
extrude "Extrusão32" cut sketch "Esboço26" against normal blind 200
